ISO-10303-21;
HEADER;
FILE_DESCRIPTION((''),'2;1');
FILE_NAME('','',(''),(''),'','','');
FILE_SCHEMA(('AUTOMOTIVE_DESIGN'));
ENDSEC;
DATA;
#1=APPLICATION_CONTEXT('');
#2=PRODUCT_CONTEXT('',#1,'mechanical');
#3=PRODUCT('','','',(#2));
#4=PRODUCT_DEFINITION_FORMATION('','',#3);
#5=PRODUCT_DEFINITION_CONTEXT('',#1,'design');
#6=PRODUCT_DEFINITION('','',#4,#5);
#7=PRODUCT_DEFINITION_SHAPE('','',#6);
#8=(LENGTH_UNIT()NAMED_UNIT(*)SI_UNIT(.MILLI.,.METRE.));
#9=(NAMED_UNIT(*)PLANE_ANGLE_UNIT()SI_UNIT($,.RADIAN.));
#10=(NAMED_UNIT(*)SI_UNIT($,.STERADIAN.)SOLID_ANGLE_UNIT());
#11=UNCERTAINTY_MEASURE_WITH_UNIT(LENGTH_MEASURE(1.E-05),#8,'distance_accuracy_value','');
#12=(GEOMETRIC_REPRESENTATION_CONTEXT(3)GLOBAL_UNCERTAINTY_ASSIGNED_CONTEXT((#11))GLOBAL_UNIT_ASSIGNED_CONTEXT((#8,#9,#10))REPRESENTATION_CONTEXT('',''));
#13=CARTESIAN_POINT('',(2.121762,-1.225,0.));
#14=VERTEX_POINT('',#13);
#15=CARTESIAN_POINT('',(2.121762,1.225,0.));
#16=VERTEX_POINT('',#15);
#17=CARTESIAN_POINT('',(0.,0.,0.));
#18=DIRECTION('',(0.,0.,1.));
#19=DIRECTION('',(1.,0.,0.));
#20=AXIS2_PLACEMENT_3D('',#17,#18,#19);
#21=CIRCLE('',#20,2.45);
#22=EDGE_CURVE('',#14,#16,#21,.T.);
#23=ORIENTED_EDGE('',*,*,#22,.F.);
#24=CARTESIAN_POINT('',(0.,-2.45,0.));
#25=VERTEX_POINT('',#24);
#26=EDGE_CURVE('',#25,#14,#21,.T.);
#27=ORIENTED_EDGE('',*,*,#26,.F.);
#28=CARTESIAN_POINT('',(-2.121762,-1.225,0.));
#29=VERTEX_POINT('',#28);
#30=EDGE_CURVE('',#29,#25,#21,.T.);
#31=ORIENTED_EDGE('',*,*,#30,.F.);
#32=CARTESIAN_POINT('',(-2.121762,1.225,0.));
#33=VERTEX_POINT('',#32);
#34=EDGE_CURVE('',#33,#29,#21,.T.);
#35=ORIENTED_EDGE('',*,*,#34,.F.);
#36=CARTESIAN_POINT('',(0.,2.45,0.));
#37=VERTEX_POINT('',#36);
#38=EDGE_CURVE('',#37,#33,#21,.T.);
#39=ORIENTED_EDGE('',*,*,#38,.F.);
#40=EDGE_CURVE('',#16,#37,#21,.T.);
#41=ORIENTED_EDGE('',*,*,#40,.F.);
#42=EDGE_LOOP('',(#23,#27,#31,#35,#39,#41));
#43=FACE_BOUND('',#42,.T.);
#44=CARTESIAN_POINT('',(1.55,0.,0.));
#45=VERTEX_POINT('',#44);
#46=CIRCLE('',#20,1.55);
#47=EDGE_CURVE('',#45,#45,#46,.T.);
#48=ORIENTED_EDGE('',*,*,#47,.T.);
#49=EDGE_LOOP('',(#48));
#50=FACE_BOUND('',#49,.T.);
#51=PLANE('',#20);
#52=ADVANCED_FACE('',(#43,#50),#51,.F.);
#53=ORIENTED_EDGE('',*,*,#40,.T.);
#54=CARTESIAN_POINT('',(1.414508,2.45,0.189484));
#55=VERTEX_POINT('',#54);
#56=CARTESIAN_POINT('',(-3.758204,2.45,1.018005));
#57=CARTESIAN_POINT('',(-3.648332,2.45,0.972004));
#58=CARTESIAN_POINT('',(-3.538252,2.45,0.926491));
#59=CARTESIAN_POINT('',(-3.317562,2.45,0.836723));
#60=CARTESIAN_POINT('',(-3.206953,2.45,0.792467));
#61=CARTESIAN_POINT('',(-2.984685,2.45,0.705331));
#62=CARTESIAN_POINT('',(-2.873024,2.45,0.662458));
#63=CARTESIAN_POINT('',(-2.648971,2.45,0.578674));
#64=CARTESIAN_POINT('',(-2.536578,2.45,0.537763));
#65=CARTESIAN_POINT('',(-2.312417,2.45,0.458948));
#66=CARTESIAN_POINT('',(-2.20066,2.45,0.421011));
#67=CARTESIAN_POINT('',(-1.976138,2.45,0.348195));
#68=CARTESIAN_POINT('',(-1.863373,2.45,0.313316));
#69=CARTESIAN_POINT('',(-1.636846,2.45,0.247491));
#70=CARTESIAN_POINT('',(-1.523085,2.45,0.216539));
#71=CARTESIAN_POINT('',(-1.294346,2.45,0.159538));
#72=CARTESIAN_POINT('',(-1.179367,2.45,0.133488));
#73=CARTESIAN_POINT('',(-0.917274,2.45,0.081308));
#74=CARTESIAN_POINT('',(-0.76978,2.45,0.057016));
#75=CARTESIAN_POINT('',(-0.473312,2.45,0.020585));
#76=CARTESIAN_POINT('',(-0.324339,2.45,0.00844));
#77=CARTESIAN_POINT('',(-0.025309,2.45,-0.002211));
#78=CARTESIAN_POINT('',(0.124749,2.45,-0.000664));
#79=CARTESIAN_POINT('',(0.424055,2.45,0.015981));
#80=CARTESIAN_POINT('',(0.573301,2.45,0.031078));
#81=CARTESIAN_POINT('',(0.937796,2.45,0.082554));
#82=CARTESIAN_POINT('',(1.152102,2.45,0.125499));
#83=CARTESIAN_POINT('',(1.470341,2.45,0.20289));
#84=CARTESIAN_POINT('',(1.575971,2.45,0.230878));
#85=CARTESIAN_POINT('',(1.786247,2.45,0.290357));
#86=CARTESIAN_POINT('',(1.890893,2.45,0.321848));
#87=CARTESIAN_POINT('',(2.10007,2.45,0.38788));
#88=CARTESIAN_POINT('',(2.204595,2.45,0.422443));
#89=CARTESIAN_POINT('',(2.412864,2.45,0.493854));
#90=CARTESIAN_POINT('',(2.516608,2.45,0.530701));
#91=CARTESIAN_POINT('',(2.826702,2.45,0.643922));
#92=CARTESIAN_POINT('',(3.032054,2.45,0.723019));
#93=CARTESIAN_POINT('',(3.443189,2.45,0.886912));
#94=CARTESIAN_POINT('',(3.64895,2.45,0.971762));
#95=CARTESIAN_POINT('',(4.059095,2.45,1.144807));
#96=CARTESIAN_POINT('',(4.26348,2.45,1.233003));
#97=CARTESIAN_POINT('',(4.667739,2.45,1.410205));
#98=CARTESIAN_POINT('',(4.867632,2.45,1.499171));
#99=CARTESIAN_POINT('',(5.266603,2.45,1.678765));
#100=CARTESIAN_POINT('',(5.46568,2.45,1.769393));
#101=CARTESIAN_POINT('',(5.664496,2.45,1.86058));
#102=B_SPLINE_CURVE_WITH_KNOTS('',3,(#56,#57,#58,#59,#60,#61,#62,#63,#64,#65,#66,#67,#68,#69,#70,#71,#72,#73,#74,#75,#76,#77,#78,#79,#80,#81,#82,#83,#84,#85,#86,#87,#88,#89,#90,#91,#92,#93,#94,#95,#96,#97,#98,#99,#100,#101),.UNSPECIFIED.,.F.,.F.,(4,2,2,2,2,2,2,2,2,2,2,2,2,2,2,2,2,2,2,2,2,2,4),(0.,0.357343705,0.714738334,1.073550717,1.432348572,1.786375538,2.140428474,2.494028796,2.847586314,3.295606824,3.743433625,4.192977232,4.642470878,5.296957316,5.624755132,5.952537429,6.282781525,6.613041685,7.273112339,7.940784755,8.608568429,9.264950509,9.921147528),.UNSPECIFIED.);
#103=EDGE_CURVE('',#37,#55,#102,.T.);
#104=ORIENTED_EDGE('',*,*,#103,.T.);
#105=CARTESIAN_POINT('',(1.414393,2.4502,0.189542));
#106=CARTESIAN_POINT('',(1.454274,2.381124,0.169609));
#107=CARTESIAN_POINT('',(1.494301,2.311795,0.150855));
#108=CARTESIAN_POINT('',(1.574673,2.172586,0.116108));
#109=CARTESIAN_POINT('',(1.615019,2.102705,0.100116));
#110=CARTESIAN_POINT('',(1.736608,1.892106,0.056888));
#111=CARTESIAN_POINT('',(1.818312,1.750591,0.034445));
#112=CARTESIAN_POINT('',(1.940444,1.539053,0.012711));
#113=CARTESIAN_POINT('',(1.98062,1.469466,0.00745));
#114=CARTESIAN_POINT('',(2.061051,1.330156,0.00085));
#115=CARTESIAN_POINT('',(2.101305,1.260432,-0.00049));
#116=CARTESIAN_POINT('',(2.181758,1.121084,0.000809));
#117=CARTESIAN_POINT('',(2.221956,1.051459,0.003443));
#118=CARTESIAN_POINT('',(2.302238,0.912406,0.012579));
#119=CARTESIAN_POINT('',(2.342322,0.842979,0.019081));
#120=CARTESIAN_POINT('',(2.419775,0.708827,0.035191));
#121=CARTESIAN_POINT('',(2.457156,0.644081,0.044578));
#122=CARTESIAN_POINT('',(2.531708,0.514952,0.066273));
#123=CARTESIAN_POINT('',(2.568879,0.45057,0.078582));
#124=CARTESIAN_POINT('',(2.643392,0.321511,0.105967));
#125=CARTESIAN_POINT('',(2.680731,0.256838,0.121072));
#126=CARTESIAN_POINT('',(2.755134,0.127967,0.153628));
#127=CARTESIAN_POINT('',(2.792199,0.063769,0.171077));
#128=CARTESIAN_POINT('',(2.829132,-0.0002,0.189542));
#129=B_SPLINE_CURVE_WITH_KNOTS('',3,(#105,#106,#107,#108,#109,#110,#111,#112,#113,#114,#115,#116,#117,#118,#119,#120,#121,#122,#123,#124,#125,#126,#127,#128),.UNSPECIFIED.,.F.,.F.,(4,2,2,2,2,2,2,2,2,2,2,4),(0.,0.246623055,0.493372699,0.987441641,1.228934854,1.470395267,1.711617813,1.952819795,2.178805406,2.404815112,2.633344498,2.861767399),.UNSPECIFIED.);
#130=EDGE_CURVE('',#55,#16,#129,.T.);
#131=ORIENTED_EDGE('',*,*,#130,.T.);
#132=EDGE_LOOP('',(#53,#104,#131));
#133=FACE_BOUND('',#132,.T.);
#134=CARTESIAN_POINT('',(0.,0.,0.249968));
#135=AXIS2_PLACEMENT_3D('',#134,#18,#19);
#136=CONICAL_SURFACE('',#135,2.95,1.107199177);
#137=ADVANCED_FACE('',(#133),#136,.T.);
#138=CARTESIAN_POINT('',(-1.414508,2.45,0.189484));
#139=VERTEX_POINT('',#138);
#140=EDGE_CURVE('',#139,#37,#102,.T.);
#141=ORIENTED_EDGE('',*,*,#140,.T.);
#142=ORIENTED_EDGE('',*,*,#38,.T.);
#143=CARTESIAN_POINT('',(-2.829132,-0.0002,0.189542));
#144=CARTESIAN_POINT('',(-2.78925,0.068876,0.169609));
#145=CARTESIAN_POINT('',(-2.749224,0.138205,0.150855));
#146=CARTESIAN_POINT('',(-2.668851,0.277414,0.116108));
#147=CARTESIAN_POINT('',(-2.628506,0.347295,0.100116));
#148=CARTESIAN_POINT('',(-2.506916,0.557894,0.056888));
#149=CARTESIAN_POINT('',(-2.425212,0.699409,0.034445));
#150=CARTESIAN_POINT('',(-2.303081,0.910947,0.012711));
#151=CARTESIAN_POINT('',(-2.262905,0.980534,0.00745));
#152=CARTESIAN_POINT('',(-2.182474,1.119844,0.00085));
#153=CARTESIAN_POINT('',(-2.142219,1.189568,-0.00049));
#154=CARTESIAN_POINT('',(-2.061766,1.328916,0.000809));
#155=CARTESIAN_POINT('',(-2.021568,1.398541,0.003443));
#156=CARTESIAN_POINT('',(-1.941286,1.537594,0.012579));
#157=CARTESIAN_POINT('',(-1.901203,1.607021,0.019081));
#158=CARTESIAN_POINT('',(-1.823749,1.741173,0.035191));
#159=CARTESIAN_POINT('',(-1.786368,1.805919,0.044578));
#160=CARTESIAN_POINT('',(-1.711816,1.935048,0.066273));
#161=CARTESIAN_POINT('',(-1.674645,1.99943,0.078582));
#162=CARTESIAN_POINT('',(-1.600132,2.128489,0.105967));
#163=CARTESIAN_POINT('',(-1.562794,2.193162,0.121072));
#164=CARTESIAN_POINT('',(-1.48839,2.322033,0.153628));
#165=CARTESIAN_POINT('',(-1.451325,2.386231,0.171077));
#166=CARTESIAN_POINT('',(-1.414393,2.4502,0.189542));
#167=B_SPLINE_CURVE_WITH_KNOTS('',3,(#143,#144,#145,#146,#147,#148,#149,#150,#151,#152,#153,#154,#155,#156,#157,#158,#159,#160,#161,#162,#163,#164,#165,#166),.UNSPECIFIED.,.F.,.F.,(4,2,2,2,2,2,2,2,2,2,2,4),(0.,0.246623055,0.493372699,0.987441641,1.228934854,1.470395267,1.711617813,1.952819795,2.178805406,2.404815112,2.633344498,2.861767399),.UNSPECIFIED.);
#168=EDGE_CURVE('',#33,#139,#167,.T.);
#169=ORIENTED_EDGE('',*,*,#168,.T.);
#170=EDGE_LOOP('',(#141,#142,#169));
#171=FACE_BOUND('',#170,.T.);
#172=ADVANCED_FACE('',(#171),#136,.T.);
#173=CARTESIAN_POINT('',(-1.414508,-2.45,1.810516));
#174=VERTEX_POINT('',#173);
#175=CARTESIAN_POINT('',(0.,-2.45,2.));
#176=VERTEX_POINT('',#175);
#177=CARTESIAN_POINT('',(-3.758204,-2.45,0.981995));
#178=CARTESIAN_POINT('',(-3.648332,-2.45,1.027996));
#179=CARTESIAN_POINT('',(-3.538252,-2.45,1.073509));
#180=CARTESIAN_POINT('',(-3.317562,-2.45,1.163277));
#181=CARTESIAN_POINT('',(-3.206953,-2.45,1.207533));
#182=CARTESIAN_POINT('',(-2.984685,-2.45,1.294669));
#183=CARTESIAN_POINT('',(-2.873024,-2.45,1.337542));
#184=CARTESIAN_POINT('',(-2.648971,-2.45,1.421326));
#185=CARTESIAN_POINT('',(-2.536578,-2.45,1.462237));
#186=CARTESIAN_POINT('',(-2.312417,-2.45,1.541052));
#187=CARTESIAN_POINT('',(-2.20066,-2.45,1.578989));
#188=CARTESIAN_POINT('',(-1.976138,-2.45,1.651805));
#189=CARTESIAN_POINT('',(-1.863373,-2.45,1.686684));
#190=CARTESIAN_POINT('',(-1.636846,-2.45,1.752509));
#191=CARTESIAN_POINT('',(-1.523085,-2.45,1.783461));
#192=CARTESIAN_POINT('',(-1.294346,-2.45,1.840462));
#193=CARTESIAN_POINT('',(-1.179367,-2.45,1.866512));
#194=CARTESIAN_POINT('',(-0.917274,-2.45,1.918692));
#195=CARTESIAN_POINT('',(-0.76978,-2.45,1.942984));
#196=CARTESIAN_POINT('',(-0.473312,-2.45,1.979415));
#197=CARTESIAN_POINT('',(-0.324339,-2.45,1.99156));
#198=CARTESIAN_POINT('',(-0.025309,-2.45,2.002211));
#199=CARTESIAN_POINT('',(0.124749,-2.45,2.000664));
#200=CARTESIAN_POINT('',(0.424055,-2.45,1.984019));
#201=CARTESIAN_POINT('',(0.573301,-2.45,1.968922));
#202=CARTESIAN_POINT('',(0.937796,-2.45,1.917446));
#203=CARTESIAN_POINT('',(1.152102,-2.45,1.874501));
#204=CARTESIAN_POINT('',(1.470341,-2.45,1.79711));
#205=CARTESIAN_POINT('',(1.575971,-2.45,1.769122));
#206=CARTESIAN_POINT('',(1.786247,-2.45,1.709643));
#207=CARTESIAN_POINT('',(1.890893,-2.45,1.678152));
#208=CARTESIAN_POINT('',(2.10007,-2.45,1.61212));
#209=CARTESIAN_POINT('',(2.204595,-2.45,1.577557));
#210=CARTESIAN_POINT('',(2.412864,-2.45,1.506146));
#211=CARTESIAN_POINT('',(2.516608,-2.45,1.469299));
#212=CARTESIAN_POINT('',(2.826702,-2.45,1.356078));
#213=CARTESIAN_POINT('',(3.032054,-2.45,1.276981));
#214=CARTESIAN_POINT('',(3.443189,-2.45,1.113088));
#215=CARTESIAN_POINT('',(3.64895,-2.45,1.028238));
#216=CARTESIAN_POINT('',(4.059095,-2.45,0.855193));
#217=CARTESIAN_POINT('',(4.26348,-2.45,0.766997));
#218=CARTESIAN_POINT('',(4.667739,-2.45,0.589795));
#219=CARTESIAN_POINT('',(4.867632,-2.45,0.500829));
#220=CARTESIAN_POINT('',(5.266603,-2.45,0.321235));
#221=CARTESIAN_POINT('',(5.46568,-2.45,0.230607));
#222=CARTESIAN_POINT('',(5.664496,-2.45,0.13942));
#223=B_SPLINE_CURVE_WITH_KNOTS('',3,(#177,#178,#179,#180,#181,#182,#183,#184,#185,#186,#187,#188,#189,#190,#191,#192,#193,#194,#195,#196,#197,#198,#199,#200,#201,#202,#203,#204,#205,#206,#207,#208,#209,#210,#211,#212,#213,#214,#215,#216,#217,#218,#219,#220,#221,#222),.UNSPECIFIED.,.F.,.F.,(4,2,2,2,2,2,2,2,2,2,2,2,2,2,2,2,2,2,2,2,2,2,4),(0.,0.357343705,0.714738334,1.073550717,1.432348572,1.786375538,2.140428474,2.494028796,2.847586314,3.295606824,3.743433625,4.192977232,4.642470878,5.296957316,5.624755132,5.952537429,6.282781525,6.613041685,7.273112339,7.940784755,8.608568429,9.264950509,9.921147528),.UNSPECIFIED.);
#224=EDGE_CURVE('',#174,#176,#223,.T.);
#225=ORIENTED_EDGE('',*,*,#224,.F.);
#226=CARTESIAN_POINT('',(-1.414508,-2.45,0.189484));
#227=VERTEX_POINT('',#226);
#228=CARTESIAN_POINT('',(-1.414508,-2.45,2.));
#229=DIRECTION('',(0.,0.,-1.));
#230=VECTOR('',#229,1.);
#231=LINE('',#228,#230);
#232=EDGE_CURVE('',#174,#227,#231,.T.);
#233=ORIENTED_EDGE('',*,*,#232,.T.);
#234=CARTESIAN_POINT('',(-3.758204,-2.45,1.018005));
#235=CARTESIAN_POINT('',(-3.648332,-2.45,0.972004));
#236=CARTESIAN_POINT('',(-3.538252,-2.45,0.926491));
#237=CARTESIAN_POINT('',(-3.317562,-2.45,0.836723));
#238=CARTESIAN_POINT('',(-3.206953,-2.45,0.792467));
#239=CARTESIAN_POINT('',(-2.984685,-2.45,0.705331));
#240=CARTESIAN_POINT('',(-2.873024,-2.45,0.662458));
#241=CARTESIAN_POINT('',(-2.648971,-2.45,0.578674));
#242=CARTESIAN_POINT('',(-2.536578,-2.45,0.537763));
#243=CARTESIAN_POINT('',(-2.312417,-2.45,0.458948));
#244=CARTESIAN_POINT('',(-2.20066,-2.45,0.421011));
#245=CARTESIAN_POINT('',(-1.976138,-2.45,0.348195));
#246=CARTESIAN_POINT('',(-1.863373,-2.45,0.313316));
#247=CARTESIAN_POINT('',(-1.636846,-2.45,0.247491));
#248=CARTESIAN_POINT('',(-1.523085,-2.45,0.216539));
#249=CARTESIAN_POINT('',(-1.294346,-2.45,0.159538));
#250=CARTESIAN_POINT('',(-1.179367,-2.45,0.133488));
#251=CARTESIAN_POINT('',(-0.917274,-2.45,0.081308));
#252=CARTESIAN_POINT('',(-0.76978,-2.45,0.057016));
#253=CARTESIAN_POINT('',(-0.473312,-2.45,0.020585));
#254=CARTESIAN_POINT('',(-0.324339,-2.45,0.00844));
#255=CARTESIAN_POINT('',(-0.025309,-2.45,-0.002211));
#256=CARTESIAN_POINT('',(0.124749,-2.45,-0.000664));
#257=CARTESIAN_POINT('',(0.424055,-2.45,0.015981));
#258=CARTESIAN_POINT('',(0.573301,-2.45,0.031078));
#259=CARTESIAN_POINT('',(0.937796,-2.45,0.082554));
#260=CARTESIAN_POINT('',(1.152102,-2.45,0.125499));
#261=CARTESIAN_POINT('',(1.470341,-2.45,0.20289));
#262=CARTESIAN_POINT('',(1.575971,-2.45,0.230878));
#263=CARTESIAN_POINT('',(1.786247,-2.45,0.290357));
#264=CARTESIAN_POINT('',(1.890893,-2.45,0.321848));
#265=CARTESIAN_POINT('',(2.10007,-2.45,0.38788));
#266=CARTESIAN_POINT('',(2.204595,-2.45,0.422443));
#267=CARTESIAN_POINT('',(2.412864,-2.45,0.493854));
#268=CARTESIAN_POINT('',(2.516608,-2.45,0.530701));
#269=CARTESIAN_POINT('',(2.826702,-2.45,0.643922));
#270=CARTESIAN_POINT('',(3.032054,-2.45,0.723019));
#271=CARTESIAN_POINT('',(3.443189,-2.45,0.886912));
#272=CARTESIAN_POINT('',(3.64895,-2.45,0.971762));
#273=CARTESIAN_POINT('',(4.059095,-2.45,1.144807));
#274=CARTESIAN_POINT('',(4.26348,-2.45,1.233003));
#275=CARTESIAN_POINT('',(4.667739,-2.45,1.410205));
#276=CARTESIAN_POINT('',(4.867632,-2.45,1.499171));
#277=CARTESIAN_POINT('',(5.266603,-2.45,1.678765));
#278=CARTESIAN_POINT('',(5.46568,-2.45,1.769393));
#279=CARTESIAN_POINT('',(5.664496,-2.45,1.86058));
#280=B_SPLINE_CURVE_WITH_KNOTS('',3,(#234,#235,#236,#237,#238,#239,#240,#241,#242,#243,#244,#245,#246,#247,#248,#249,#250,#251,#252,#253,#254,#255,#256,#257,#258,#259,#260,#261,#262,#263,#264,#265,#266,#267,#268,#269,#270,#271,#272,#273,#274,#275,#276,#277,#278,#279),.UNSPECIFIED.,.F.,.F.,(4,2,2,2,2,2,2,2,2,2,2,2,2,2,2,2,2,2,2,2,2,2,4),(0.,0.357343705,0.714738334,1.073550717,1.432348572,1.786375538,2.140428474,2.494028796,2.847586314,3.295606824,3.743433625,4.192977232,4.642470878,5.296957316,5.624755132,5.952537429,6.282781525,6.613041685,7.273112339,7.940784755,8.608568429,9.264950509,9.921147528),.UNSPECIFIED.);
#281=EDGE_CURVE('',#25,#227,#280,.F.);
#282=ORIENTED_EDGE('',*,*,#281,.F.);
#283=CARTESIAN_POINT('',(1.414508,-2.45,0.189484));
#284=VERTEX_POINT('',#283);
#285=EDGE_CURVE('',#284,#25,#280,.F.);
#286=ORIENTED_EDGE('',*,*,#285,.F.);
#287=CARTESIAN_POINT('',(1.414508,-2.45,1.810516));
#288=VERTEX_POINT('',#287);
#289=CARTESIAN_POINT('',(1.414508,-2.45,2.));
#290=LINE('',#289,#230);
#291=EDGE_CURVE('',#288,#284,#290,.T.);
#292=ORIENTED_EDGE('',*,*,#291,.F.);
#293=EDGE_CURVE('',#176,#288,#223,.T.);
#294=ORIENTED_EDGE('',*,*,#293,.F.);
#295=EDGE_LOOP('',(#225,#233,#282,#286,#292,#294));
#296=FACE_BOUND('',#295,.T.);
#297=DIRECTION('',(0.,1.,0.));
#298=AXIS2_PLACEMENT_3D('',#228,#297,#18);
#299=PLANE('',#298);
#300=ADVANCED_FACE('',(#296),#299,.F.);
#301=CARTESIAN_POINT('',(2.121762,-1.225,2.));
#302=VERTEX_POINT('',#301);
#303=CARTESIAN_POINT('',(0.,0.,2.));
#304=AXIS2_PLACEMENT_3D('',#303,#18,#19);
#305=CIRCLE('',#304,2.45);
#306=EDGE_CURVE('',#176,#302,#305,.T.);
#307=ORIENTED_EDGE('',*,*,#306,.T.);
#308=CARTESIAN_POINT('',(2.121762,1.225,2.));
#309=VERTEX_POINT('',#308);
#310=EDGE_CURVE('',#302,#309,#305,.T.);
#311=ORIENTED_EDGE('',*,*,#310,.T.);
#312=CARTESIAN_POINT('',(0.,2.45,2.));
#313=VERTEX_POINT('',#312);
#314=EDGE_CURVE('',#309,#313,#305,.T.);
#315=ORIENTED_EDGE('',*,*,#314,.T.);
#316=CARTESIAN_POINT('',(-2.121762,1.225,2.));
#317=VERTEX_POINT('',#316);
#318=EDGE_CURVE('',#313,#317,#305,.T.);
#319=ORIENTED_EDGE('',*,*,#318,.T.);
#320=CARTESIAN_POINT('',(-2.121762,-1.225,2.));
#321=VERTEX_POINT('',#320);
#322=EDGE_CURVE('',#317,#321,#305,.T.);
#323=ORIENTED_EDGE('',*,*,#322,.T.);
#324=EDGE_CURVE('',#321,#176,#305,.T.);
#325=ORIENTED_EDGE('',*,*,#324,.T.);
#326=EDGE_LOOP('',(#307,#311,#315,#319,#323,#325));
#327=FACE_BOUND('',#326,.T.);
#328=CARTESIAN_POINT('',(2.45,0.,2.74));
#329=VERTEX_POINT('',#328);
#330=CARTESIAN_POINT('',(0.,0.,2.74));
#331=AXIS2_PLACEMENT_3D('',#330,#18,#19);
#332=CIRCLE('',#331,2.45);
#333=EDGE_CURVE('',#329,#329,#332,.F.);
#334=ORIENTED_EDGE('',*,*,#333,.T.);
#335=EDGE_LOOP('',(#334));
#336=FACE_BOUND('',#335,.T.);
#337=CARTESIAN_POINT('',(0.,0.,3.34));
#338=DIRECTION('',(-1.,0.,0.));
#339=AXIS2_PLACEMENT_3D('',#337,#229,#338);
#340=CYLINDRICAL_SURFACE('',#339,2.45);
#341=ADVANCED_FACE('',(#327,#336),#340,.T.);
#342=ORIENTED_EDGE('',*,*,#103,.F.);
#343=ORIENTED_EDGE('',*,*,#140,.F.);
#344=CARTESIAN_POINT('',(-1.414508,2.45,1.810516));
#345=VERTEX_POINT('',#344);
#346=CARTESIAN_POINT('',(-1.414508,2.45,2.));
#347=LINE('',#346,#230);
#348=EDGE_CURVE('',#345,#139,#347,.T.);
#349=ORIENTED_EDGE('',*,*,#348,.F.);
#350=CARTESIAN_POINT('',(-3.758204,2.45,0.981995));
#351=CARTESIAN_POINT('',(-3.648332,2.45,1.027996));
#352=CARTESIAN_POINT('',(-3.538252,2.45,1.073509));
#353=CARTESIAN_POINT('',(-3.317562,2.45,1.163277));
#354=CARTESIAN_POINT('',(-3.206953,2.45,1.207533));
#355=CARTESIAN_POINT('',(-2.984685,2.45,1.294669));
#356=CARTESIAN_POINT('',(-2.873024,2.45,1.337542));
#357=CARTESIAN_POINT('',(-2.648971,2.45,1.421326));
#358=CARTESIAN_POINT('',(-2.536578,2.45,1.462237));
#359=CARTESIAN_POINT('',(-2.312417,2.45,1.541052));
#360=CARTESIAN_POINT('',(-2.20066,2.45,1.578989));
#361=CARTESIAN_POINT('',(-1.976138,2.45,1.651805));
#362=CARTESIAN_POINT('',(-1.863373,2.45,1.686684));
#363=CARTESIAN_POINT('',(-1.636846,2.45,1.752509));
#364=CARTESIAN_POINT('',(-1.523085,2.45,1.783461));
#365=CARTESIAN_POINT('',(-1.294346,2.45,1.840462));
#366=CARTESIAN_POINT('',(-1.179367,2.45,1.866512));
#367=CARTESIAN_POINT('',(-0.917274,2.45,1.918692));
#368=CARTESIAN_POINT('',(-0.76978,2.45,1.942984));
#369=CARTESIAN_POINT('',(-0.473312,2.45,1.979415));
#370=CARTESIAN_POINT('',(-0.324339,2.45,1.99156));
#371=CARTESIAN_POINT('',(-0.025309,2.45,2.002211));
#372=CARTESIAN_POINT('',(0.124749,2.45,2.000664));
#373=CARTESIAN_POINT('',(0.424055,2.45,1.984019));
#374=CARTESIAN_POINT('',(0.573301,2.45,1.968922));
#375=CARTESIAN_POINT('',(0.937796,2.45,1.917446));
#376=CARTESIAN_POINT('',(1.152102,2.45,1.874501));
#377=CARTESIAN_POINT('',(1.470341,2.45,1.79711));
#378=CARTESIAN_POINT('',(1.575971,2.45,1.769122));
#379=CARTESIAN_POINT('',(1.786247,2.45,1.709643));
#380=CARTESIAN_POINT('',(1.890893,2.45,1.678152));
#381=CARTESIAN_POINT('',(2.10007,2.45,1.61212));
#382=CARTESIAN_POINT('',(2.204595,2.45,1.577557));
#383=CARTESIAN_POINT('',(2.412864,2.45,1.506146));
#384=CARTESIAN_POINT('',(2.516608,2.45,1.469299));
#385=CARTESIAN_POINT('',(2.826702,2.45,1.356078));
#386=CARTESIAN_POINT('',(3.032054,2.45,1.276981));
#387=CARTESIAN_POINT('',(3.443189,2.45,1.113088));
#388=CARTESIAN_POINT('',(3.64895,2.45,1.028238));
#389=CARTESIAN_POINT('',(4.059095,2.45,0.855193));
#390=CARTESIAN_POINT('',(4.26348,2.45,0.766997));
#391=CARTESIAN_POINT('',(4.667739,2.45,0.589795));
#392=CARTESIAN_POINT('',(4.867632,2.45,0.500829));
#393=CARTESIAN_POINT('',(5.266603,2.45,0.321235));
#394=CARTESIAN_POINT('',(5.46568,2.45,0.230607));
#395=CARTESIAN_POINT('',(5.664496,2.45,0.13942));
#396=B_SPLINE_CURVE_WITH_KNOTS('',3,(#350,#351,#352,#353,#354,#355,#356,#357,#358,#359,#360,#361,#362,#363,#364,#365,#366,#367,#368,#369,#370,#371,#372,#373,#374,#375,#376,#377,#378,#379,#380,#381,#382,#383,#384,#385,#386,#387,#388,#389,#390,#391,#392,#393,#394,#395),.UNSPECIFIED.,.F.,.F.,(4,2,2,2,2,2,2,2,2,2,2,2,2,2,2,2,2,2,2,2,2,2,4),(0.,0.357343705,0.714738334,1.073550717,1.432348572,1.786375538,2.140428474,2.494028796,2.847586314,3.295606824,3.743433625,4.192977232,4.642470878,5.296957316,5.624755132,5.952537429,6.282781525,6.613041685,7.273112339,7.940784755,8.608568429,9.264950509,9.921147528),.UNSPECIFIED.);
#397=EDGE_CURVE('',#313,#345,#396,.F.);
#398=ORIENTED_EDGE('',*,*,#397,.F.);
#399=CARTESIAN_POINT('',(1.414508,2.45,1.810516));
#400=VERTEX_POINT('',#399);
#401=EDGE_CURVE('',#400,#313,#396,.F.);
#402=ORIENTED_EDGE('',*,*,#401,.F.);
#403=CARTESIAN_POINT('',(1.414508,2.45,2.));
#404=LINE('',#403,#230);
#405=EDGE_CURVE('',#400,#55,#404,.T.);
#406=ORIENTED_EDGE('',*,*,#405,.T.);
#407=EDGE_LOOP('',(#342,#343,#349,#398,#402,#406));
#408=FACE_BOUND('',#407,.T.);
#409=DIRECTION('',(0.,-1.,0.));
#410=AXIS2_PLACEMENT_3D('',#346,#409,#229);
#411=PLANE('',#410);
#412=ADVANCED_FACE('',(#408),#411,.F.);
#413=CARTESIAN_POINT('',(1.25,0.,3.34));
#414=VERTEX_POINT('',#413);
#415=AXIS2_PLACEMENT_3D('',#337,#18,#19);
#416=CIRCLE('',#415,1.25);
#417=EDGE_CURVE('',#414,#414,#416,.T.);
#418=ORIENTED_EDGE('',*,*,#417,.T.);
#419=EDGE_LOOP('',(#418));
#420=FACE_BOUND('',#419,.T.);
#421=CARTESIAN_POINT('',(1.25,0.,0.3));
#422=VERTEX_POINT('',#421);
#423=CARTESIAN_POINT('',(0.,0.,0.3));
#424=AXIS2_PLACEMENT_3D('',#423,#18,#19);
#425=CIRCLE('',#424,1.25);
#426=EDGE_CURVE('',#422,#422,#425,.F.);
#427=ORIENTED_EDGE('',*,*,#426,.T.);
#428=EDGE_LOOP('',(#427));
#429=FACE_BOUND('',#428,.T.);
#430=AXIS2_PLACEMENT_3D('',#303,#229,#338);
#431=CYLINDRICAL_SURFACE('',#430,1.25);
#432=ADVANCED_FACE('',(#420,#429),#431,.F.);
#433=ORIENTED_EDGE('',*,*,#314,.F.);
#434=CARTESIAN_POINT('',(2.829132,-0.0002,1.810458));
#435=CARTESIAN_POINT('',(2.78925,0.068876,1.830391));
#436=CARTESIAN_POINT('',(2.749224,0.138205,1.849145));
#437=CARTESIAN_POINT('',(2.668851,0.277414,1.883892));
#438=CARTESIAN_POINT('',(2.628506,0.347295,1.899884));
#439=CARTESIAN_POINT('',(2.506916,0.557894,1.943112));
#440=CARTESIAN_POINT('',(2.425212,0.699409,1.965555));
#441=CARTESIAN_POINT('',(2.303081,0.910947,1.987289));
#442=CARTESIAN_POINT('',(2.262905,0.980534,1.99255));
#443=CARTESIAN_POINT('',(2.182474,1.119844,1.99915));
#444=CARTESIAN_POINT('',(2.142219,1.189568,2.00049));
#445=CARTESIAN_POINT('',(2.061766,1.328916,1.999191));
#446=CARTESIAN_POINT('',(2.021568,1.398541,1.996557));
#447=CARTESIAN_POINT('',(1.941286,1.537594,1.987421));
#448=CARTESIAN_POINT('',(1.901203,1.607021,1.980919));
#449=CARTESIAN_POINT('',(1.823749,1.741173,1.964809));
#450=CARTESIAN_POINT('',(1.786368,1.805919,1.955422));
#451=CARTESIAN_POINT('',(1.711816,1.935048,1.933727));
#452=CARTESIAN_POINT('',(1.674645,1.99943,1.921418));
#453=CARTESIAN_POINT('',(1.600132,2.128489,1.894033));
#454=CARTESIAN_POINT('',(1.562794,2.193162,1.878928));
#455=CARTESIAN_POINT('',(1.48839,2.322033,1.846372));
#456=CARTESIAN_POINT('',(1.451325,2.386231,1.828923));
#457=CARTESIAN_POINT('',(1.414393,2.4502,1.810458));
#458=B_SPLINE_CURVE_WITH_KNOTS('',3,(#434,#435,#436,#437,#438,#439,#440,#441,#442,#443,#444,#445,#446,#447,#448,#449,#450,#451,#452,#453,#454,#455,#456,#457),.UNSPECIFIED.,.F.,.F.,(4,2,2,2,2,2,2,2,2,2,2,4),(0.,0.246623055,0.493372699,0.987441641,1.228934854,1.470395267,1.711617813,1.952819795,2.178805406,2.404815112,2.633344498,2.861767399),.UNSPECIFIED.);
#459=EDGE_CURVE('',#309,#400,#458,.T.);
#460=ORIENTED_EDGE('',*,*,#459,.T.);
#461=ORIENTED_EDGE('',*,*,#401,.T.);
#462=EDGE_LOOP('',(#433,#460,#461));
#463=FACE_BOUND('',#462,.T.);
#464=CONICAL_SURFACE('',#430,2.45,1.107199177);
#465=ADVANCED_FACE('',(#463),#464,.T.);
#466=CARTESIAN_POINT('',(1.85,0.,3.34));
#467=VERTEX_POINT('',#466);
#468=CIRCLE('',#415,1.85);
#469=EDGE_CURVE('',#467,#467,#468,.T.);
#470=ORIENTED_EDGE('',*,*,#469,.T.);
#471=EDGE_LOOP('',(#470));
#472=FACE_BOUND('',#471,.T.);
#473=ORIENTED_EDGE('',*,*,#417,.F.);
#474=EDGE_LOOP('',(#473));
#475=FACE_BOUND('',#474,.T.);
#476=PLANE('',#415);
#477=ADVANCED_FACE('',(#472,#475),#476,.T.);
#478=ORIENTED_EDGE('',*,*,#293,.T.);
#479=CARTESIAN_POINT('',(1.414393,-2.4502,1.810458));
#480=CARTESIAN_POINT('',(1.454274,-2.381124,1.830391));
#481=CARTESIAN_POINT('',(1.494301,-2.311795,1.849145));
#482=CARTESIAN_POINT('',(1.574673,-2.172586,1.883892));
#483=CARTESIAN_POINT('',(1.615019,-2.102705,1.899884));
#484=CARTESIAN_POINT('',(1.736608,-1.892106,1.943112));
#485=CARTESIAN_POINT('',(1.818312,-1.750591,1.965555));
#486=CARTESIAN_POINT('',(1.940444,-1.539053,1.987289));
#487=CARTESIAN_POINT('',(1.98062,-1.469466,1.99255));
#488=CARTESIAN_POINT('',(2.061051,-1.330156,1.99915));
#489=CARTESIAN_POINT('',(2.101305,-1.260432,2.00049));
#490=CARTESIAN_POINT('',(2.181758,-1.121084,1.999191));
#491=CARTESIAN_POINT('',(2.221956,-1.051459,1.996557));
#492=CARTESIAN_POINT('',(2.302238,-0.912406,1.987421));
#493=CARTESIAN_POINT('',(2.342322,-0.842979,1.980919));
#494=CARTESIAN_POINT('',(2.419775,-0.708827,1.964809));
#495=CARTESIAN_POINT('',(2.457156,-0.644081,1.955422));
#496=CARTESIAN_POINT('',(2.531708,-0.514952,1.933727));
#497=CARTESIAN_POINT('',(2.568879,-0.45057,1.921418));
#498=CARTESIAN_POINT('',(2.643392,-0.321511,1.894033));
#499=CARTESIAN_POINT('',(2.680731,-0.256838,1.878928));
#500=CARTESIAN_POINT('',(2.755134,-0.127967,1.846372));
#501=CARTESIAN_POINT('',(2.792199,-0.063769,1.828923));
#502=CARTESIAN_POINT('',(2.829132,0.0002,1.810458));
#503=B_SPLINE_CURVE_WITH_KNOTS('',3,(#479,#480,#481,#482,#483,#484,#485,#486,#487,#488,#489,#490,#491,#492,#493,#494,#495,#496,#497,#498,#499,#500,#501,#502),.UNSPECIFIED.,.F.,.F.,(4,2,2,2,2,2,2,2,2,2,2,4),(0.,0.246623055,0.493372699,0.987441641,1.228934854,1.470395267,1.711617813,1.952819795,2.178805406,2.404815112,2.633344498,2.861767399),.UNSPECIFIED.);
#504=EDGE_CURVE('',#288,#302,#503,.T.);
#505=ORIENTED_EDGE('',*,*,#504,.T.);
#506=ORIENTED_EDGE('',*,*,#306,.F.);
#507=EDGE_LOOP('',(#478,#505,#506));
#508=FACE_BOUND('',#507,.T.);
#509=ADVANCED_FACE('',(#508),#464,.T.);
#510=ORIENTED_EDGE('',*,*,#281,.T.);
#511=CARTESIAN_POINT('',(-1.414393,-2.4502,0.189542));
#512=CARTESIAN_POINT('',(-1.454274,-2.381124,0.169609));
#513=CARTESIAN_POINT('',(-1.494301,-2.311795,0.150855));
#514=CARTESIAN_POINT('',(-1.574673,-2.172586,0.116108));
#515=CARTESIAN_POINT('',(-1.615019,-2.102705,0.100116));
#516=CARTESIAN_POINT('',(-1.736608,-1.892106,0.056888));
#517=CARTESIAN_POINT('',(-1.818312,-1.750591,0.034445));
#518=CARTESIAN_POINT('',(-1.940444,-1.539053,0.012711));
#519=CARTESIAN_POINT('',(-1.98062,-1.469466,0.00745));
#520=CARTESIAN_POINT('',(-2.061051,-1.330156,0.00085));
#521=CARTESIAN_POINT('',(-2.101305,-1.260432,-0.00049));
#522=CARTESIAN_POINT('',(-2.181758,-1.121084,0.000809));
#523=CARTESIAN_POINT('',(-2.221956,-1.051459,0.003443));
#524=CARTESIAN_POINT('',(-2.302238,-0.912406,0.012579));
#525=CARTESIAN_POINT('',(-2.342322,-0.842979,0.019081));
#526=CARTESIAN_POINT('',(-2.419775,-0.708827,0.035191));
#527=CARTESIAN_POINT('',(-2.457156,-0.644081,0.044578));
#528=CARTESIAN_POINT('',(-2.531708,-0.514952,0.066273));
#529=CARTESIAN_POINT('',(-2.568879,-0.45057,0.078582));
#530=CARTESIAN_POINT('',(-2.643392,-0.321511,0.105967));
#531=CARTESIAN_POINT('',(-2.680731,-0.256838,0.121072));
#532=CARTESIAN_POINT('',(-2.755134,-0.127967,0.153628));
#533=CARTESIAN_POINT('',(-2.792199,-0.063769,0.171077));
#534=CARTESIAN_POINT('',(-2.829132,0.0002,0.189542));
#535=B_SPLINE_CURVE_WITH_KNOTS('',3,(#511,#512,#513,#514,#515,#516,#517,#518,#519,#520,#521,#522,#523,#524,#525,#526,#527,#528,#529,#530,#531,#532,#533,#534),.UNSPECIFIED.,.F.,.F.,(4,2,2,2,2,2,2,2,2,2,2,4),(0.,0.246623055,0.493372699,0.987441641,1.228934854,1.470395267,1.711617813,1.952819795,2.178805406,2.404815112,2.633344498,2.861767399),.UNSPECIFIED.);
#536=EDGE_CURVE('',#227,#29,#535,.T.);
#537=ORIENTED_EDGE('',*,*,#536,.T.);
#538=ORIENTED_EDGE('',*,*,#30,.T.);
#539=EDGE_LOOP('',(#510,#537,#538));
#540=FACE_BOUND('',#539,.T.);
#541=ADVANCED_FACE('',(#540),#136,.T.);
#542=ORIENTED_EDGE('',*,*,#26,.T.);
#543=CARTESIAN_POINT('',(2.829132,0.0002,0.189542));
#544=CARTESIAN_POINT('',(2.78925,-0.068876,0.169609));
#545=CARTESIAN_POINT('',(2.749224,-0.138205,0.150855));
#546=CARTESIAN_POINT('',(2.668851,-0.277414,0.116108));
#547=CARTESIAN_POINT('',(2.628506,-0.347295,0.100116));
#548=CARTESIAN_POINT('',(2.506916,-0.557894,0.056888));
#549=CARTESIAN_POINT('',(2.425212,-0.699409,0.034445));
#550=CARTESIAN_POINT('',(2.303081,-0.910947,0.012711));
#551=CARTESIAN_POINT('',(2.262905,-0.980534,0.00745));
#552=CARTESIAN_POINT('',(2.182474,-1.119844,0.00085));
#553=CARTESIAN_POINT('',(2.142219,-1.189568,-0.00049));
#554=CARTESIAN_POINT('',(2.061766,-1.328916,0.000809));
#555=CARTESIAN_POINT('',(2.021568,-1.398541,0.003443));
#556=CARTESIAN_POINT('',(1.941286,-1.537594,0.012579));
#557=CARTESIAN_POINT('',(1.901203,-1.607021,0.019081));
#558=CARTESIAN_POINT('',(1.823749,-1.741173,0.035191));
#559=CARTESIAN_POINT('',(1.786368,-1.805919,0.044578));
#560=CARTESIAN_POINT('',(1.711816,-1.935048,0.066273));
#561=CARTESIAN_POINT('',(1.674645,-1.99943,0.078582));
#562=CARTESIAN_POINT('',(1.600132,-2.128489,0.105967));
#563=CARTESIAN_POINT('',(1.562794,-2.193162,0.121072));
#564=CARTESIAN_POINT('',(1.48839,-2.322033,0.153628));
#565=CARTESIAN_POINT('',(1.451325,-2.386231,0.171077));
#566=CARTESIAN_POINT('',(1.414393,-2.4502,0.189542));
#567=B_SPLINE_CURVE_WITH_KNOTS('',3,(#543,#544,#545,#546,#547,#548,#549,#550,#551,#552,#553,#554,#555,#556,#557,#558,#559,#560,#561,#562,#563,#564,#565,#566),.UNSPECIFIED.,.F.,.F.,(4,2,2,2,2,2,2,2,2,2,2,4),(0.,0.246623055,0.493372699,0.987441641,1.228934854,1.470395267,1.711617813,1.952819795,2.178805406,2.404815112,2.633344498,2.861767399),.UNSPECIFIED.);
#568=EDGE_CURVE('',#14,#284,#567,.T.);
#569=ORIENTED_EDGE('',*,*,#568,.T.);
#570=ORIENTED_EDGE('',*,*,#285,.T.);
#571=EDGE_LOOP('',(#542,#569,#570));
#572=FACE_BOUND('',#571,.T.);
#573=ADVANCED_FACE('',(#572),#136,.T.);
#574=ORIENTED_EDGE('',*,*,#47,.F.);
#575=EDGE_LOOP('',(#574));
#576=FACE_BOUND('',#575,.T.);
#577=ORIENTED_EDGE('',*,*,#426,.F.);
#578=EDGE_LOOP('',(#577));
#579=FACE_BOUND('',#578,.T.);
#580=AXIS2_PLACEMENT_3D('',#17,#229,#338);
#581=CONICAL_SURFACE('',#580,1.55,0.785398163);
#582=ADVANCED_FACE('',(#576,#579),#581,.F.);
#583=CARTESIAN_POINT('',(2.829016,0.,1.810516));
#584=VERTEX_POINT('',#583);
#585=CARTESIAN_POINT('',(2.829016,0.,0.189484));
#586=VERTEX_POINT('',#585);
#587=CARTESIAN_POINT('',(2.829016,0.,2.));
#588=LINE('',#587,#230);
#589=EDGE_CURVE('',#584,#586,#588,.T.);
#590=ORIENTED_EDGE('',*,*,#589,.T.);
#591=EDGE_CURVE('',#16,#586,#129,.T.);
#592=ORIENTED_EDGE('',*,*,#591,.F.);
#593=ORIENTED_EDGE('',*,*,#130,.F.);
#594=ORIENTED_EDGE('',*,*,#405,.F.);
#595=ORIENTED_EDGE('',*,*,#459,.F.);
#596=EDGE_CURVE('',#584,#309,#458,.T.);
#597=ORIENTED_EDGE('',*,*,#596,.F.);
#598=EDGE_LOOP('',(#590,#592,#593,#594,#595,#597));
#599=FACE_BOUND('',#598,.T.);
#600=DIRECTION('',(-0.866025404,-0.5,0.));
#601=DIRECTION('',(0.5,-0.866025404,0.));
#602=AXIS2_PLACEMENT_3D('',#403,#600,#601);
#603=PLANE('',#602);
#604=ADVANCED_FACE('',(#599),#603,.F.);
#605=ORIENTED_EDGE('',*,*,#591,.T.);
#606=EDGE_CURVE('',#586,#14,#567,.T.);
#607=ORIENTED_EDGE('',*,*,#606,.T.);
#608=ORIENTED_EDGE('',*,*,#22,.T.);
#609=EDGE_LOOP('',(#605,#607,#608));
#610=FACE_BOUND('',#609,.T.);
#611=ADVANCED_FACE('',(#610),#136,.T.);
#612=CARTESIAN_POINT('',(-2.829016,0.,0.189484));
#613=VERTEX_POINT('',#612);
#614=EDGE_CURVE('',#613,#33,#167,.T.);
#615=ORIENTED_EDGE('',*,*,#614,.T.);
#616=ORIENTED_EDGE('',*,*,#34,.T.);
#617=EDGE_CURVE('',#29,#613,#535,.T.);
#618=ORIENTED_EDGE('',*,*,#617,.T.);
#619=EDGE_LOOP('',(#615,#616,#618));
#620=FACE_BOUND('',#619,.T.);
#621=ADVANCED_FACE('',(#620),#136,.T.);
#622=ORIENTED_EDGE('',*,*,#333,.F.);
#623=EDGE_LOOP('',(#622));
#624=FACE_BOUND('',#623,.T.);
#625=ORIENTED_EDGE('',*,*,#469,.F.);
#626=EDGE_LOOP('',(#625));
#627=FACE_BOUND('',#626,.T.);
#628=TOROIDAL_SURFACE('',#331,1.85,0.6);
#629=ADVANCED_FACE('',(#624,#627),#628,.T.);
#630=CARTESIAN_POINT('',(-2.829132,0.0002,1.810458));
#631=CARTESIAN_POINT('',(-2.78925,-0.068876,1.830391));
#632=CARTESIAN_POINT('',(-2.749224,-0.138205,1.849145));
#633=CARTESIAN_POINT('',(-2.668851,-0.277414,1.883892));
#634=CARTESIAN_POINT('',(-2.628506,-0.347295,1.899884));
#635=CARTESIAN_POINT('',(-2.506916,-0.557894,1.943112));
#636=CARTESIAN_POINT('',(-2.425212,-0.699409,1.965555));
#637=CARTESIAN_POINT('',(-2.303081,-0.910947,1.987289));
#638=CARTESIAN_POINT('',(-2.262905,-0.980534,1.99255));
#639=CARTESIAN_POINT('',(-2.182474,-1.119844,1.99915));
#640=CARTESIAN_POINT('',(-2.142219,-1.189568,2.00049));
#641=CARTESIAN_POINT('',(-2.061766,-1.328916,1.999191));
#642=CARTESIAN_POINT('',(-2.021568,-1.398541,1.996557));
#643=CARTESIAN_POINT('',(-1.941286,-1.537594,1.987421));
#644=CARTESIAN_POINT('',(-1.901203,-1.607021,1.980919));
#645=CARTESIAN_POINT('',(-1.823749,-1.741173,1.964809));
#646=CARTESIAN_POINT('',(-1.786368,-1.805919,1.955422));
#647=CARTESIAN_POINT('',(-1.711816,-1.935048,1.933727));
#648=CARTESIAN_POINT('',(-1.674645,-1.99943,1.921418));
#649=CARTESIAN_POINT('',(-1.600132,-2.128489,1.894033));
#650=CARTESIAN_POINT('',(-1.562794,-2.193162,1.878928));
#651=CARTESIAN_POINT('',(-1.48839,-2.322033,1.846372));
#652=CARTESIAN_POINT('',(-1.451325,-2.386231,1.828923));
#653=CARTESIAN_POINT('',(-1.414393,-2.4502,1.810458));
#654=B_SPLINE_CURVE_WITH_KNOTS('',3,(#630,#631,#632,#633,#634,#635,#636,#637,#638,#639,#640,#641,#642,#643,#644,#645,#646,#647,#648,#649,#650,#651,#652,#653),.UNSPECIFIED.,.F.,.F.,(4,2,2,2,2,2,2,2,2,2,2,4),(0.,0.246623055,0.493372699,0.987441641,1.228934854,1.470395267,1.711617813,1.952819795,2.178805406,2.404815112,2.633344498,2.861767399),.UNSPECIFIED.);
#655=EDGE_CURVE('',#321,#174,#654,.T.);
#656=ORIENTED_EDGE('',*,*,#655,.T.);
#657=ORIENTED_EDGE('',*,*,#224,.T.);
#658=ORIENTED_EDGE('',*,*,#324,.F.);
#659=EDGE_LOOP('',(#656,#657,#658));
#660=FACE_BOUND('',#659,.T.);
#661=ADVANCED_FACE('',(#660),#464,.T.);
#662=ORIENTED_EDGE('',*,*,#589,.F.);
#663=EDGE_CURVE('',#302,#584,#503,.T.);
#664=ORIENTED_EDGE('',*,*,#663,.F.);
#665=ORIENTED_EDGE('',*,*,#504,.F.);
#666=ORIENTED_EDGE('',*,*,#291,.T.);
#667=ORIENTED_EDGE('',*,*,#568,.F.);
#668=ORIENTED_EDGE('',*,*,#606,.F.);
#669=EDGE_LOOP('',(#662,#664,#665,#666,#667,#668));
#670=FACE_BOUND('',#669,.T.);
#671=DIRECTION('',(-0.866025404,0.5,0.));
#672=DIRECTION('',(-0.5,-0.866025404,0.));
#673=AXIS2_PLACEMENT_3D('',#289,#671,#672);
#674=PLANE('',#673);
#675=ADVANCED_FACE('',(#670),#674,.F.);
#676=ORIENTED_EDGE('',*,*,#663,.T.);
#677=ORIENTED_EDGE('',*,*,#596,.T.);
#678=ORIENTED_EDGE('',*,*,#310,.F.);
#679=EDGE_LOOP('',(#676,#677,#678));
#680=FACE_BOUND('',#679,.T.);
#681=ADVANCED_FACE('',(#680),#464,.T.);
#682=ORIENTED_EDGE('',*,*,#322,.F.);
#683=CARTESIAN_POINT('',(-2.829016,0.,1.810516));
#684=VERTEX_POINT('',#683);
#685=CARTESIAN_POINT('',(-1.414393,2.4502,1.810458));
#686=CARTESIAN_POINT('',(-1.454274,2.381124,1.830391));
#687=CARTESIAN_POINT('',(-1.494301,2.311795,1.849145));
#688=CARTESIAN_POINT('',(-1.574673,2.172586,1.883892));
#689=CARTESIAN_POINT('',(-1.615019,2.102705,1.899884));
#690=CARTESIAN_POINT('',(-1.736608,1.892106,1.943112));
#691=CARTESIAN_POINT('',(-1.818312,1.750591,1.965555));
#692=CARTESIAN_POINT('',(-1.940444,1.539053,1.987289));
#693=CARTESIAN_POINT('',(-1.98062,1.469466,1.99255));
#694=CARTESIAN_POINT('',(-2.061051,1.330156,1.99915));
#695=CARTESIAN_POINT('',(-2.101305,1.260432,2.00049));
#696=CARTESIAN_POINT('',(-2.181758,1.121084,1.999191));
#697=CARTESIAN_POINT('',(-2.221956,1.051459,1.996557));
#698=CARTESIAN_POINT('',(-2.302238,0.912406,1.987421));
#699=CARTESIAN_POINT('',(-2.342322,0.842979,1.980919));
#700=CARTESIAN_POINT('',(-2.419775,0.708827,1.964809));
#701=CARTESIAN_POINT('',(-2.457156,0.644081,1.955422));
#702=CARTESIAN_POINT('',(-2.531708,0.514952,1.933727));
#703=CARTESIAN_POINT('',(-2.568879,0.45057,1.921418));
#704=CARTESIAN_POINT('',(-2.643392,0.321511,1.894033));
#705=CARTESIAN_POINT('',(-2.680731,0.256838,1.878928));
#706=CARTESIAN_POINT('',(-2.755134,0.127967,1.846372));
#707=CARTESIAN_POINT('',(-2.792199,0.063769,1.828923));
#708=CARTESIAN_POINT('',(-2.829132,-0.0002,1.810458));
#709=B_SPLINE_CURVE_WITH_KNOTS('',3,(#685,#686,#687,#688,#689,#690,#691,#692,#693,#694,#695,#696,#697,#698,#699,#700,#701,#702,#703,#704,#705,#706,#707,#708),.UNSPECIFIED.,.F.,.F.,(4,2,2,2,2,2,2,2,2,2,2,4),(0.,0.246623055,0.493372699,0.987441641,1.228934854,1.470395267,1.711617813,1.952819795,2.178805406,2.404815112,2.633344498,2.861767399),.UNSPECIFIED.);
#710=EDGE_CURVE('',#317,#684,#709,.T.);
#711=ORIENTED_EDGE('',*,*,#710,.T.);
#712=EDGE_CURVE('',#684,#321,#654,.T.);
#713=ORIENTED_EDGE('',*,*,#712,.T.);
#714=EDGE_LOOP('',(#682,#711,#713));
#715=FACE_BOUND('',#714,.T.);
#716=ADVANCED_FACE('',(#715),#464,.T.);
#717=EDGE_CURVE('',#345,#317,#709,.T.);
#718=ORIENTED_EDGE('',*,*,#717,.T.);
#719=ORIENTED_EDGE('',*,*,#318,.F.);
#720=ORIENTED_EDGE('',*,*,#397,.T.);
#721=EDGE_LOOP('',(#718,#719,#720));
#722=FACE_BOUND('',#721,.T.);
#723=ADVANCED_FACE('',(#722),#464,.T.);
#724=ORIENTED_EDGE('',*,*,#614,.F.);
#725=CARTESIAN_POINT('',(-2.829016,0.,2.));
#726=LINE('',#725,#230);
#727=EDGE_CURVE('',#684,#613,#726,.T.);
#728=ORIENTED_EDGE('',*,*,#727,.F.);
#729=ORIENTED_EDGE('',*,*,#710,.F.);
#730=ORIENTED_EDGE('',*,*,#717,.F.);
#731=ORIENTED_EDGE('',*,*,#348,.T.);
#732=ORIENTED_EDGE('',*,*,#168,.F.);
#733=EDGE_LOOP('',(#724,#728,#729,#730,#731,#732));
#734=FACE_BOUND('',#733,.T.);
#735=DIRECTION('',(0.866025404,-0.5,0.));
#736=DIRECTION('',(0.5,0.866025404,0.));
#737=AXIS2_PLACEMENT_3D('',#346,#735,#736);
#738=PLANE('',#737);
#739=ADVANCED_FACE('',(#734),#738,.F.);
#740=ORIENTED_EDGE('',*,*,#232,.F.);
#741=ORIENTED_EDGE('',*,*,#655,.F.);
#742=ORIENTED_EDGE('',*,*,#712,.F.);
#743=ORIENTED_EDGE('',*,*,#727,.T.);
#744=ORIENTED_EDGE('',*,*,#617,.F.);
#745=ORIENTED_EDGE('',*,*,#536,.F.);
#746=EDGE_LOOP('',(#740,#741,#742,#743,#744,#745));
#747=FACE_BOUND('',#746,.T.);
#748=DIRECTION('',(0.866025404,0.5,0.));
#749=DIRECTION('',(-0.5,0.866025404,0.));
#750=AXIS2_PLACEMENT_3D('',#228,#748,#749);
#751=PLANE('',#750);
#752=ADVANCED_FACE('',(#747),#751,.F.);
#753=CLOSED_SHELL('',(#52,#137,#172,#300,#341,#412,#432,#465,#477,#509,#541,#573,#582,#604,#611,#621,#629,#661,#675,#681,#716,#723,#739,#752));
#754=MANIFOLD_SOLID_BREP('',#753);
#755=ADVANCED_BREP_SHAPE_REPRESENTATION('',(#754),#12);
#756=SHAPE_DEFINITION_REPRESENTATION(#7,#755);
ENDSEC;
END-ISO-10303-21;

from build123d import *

# Parameters (mm, degrees)
SKETCH1_R           = 1.25
BOSS_EXTRUDE1_DEPTH = 2
SKETCH2_R           = 2.45
SKETCH2_R_2         = 1.25
BOSS_EXTRUDE2_DEPTH = 1.34
FILLET1_R           = 0.6
CHAMFER1_SIZE       = 0.3


with BuildPart() as part:
    # Sketch1 → Boss-Extrude1 (new body)
    with BuildSketch(Plane.XY):
        Polygon((-1.41450816, 2.45), (1.41450816, 2.45), (2.829016319, 0), (1.41450816, -2.45), (-1.41450816, -2.45), (-2.829016319, 0), align=None)
        Circle(SKETCH1_R, mode=Mode.SUBTRACT)
    extrude(amount=BOSS_EXTRUDE1_DEPTH)

    # Sketch2 → Boss-Extrude2 (add)
    with BuildSketch(Plane.XY.offset(2)):
        Circle(SKETCH2_R)
        Circle(SKETCH2_R_2, mode=Mode.SUBTRACT)
    extrude(amount=BOSS_EXTRUDE2_DEPTH)

    # Fillet1
    fillet1_edges = [part.edges().sort_by_distance(p)[0] for p in [
        (-2.45, 0, 3.34),
    ]]
    fillet(fillet1_edges, radius=FILLET1_R)

    # Sketch3 → Cut-Revolve1 (revolve, cut)
    with BuildSketch(Plane(origin=(0, 0, 0), x_dir=(0, 0, -1), z_dir=(1, 0, 0))):
        Polygon((-2, 2.45), (-1.750031536, 2.95), (-0.249968464, 2.95), (0, 2.45), (0, 3.373191212), (-2, 3.373191212), align=None)
    revolve(axis=Axis((0, 0, 0), (0, 0, -1)), mode=Mode.SUBTRACT)

    # Chamfer1
    chamfer1_edges = [part.edges().sort_by_distance(p)[0] for p in [
        (-1.25, 0, 0),
    ]]
    chamfer(chamfer1_edges, length=CHAMFER1_SIZE)


solid = part.part
